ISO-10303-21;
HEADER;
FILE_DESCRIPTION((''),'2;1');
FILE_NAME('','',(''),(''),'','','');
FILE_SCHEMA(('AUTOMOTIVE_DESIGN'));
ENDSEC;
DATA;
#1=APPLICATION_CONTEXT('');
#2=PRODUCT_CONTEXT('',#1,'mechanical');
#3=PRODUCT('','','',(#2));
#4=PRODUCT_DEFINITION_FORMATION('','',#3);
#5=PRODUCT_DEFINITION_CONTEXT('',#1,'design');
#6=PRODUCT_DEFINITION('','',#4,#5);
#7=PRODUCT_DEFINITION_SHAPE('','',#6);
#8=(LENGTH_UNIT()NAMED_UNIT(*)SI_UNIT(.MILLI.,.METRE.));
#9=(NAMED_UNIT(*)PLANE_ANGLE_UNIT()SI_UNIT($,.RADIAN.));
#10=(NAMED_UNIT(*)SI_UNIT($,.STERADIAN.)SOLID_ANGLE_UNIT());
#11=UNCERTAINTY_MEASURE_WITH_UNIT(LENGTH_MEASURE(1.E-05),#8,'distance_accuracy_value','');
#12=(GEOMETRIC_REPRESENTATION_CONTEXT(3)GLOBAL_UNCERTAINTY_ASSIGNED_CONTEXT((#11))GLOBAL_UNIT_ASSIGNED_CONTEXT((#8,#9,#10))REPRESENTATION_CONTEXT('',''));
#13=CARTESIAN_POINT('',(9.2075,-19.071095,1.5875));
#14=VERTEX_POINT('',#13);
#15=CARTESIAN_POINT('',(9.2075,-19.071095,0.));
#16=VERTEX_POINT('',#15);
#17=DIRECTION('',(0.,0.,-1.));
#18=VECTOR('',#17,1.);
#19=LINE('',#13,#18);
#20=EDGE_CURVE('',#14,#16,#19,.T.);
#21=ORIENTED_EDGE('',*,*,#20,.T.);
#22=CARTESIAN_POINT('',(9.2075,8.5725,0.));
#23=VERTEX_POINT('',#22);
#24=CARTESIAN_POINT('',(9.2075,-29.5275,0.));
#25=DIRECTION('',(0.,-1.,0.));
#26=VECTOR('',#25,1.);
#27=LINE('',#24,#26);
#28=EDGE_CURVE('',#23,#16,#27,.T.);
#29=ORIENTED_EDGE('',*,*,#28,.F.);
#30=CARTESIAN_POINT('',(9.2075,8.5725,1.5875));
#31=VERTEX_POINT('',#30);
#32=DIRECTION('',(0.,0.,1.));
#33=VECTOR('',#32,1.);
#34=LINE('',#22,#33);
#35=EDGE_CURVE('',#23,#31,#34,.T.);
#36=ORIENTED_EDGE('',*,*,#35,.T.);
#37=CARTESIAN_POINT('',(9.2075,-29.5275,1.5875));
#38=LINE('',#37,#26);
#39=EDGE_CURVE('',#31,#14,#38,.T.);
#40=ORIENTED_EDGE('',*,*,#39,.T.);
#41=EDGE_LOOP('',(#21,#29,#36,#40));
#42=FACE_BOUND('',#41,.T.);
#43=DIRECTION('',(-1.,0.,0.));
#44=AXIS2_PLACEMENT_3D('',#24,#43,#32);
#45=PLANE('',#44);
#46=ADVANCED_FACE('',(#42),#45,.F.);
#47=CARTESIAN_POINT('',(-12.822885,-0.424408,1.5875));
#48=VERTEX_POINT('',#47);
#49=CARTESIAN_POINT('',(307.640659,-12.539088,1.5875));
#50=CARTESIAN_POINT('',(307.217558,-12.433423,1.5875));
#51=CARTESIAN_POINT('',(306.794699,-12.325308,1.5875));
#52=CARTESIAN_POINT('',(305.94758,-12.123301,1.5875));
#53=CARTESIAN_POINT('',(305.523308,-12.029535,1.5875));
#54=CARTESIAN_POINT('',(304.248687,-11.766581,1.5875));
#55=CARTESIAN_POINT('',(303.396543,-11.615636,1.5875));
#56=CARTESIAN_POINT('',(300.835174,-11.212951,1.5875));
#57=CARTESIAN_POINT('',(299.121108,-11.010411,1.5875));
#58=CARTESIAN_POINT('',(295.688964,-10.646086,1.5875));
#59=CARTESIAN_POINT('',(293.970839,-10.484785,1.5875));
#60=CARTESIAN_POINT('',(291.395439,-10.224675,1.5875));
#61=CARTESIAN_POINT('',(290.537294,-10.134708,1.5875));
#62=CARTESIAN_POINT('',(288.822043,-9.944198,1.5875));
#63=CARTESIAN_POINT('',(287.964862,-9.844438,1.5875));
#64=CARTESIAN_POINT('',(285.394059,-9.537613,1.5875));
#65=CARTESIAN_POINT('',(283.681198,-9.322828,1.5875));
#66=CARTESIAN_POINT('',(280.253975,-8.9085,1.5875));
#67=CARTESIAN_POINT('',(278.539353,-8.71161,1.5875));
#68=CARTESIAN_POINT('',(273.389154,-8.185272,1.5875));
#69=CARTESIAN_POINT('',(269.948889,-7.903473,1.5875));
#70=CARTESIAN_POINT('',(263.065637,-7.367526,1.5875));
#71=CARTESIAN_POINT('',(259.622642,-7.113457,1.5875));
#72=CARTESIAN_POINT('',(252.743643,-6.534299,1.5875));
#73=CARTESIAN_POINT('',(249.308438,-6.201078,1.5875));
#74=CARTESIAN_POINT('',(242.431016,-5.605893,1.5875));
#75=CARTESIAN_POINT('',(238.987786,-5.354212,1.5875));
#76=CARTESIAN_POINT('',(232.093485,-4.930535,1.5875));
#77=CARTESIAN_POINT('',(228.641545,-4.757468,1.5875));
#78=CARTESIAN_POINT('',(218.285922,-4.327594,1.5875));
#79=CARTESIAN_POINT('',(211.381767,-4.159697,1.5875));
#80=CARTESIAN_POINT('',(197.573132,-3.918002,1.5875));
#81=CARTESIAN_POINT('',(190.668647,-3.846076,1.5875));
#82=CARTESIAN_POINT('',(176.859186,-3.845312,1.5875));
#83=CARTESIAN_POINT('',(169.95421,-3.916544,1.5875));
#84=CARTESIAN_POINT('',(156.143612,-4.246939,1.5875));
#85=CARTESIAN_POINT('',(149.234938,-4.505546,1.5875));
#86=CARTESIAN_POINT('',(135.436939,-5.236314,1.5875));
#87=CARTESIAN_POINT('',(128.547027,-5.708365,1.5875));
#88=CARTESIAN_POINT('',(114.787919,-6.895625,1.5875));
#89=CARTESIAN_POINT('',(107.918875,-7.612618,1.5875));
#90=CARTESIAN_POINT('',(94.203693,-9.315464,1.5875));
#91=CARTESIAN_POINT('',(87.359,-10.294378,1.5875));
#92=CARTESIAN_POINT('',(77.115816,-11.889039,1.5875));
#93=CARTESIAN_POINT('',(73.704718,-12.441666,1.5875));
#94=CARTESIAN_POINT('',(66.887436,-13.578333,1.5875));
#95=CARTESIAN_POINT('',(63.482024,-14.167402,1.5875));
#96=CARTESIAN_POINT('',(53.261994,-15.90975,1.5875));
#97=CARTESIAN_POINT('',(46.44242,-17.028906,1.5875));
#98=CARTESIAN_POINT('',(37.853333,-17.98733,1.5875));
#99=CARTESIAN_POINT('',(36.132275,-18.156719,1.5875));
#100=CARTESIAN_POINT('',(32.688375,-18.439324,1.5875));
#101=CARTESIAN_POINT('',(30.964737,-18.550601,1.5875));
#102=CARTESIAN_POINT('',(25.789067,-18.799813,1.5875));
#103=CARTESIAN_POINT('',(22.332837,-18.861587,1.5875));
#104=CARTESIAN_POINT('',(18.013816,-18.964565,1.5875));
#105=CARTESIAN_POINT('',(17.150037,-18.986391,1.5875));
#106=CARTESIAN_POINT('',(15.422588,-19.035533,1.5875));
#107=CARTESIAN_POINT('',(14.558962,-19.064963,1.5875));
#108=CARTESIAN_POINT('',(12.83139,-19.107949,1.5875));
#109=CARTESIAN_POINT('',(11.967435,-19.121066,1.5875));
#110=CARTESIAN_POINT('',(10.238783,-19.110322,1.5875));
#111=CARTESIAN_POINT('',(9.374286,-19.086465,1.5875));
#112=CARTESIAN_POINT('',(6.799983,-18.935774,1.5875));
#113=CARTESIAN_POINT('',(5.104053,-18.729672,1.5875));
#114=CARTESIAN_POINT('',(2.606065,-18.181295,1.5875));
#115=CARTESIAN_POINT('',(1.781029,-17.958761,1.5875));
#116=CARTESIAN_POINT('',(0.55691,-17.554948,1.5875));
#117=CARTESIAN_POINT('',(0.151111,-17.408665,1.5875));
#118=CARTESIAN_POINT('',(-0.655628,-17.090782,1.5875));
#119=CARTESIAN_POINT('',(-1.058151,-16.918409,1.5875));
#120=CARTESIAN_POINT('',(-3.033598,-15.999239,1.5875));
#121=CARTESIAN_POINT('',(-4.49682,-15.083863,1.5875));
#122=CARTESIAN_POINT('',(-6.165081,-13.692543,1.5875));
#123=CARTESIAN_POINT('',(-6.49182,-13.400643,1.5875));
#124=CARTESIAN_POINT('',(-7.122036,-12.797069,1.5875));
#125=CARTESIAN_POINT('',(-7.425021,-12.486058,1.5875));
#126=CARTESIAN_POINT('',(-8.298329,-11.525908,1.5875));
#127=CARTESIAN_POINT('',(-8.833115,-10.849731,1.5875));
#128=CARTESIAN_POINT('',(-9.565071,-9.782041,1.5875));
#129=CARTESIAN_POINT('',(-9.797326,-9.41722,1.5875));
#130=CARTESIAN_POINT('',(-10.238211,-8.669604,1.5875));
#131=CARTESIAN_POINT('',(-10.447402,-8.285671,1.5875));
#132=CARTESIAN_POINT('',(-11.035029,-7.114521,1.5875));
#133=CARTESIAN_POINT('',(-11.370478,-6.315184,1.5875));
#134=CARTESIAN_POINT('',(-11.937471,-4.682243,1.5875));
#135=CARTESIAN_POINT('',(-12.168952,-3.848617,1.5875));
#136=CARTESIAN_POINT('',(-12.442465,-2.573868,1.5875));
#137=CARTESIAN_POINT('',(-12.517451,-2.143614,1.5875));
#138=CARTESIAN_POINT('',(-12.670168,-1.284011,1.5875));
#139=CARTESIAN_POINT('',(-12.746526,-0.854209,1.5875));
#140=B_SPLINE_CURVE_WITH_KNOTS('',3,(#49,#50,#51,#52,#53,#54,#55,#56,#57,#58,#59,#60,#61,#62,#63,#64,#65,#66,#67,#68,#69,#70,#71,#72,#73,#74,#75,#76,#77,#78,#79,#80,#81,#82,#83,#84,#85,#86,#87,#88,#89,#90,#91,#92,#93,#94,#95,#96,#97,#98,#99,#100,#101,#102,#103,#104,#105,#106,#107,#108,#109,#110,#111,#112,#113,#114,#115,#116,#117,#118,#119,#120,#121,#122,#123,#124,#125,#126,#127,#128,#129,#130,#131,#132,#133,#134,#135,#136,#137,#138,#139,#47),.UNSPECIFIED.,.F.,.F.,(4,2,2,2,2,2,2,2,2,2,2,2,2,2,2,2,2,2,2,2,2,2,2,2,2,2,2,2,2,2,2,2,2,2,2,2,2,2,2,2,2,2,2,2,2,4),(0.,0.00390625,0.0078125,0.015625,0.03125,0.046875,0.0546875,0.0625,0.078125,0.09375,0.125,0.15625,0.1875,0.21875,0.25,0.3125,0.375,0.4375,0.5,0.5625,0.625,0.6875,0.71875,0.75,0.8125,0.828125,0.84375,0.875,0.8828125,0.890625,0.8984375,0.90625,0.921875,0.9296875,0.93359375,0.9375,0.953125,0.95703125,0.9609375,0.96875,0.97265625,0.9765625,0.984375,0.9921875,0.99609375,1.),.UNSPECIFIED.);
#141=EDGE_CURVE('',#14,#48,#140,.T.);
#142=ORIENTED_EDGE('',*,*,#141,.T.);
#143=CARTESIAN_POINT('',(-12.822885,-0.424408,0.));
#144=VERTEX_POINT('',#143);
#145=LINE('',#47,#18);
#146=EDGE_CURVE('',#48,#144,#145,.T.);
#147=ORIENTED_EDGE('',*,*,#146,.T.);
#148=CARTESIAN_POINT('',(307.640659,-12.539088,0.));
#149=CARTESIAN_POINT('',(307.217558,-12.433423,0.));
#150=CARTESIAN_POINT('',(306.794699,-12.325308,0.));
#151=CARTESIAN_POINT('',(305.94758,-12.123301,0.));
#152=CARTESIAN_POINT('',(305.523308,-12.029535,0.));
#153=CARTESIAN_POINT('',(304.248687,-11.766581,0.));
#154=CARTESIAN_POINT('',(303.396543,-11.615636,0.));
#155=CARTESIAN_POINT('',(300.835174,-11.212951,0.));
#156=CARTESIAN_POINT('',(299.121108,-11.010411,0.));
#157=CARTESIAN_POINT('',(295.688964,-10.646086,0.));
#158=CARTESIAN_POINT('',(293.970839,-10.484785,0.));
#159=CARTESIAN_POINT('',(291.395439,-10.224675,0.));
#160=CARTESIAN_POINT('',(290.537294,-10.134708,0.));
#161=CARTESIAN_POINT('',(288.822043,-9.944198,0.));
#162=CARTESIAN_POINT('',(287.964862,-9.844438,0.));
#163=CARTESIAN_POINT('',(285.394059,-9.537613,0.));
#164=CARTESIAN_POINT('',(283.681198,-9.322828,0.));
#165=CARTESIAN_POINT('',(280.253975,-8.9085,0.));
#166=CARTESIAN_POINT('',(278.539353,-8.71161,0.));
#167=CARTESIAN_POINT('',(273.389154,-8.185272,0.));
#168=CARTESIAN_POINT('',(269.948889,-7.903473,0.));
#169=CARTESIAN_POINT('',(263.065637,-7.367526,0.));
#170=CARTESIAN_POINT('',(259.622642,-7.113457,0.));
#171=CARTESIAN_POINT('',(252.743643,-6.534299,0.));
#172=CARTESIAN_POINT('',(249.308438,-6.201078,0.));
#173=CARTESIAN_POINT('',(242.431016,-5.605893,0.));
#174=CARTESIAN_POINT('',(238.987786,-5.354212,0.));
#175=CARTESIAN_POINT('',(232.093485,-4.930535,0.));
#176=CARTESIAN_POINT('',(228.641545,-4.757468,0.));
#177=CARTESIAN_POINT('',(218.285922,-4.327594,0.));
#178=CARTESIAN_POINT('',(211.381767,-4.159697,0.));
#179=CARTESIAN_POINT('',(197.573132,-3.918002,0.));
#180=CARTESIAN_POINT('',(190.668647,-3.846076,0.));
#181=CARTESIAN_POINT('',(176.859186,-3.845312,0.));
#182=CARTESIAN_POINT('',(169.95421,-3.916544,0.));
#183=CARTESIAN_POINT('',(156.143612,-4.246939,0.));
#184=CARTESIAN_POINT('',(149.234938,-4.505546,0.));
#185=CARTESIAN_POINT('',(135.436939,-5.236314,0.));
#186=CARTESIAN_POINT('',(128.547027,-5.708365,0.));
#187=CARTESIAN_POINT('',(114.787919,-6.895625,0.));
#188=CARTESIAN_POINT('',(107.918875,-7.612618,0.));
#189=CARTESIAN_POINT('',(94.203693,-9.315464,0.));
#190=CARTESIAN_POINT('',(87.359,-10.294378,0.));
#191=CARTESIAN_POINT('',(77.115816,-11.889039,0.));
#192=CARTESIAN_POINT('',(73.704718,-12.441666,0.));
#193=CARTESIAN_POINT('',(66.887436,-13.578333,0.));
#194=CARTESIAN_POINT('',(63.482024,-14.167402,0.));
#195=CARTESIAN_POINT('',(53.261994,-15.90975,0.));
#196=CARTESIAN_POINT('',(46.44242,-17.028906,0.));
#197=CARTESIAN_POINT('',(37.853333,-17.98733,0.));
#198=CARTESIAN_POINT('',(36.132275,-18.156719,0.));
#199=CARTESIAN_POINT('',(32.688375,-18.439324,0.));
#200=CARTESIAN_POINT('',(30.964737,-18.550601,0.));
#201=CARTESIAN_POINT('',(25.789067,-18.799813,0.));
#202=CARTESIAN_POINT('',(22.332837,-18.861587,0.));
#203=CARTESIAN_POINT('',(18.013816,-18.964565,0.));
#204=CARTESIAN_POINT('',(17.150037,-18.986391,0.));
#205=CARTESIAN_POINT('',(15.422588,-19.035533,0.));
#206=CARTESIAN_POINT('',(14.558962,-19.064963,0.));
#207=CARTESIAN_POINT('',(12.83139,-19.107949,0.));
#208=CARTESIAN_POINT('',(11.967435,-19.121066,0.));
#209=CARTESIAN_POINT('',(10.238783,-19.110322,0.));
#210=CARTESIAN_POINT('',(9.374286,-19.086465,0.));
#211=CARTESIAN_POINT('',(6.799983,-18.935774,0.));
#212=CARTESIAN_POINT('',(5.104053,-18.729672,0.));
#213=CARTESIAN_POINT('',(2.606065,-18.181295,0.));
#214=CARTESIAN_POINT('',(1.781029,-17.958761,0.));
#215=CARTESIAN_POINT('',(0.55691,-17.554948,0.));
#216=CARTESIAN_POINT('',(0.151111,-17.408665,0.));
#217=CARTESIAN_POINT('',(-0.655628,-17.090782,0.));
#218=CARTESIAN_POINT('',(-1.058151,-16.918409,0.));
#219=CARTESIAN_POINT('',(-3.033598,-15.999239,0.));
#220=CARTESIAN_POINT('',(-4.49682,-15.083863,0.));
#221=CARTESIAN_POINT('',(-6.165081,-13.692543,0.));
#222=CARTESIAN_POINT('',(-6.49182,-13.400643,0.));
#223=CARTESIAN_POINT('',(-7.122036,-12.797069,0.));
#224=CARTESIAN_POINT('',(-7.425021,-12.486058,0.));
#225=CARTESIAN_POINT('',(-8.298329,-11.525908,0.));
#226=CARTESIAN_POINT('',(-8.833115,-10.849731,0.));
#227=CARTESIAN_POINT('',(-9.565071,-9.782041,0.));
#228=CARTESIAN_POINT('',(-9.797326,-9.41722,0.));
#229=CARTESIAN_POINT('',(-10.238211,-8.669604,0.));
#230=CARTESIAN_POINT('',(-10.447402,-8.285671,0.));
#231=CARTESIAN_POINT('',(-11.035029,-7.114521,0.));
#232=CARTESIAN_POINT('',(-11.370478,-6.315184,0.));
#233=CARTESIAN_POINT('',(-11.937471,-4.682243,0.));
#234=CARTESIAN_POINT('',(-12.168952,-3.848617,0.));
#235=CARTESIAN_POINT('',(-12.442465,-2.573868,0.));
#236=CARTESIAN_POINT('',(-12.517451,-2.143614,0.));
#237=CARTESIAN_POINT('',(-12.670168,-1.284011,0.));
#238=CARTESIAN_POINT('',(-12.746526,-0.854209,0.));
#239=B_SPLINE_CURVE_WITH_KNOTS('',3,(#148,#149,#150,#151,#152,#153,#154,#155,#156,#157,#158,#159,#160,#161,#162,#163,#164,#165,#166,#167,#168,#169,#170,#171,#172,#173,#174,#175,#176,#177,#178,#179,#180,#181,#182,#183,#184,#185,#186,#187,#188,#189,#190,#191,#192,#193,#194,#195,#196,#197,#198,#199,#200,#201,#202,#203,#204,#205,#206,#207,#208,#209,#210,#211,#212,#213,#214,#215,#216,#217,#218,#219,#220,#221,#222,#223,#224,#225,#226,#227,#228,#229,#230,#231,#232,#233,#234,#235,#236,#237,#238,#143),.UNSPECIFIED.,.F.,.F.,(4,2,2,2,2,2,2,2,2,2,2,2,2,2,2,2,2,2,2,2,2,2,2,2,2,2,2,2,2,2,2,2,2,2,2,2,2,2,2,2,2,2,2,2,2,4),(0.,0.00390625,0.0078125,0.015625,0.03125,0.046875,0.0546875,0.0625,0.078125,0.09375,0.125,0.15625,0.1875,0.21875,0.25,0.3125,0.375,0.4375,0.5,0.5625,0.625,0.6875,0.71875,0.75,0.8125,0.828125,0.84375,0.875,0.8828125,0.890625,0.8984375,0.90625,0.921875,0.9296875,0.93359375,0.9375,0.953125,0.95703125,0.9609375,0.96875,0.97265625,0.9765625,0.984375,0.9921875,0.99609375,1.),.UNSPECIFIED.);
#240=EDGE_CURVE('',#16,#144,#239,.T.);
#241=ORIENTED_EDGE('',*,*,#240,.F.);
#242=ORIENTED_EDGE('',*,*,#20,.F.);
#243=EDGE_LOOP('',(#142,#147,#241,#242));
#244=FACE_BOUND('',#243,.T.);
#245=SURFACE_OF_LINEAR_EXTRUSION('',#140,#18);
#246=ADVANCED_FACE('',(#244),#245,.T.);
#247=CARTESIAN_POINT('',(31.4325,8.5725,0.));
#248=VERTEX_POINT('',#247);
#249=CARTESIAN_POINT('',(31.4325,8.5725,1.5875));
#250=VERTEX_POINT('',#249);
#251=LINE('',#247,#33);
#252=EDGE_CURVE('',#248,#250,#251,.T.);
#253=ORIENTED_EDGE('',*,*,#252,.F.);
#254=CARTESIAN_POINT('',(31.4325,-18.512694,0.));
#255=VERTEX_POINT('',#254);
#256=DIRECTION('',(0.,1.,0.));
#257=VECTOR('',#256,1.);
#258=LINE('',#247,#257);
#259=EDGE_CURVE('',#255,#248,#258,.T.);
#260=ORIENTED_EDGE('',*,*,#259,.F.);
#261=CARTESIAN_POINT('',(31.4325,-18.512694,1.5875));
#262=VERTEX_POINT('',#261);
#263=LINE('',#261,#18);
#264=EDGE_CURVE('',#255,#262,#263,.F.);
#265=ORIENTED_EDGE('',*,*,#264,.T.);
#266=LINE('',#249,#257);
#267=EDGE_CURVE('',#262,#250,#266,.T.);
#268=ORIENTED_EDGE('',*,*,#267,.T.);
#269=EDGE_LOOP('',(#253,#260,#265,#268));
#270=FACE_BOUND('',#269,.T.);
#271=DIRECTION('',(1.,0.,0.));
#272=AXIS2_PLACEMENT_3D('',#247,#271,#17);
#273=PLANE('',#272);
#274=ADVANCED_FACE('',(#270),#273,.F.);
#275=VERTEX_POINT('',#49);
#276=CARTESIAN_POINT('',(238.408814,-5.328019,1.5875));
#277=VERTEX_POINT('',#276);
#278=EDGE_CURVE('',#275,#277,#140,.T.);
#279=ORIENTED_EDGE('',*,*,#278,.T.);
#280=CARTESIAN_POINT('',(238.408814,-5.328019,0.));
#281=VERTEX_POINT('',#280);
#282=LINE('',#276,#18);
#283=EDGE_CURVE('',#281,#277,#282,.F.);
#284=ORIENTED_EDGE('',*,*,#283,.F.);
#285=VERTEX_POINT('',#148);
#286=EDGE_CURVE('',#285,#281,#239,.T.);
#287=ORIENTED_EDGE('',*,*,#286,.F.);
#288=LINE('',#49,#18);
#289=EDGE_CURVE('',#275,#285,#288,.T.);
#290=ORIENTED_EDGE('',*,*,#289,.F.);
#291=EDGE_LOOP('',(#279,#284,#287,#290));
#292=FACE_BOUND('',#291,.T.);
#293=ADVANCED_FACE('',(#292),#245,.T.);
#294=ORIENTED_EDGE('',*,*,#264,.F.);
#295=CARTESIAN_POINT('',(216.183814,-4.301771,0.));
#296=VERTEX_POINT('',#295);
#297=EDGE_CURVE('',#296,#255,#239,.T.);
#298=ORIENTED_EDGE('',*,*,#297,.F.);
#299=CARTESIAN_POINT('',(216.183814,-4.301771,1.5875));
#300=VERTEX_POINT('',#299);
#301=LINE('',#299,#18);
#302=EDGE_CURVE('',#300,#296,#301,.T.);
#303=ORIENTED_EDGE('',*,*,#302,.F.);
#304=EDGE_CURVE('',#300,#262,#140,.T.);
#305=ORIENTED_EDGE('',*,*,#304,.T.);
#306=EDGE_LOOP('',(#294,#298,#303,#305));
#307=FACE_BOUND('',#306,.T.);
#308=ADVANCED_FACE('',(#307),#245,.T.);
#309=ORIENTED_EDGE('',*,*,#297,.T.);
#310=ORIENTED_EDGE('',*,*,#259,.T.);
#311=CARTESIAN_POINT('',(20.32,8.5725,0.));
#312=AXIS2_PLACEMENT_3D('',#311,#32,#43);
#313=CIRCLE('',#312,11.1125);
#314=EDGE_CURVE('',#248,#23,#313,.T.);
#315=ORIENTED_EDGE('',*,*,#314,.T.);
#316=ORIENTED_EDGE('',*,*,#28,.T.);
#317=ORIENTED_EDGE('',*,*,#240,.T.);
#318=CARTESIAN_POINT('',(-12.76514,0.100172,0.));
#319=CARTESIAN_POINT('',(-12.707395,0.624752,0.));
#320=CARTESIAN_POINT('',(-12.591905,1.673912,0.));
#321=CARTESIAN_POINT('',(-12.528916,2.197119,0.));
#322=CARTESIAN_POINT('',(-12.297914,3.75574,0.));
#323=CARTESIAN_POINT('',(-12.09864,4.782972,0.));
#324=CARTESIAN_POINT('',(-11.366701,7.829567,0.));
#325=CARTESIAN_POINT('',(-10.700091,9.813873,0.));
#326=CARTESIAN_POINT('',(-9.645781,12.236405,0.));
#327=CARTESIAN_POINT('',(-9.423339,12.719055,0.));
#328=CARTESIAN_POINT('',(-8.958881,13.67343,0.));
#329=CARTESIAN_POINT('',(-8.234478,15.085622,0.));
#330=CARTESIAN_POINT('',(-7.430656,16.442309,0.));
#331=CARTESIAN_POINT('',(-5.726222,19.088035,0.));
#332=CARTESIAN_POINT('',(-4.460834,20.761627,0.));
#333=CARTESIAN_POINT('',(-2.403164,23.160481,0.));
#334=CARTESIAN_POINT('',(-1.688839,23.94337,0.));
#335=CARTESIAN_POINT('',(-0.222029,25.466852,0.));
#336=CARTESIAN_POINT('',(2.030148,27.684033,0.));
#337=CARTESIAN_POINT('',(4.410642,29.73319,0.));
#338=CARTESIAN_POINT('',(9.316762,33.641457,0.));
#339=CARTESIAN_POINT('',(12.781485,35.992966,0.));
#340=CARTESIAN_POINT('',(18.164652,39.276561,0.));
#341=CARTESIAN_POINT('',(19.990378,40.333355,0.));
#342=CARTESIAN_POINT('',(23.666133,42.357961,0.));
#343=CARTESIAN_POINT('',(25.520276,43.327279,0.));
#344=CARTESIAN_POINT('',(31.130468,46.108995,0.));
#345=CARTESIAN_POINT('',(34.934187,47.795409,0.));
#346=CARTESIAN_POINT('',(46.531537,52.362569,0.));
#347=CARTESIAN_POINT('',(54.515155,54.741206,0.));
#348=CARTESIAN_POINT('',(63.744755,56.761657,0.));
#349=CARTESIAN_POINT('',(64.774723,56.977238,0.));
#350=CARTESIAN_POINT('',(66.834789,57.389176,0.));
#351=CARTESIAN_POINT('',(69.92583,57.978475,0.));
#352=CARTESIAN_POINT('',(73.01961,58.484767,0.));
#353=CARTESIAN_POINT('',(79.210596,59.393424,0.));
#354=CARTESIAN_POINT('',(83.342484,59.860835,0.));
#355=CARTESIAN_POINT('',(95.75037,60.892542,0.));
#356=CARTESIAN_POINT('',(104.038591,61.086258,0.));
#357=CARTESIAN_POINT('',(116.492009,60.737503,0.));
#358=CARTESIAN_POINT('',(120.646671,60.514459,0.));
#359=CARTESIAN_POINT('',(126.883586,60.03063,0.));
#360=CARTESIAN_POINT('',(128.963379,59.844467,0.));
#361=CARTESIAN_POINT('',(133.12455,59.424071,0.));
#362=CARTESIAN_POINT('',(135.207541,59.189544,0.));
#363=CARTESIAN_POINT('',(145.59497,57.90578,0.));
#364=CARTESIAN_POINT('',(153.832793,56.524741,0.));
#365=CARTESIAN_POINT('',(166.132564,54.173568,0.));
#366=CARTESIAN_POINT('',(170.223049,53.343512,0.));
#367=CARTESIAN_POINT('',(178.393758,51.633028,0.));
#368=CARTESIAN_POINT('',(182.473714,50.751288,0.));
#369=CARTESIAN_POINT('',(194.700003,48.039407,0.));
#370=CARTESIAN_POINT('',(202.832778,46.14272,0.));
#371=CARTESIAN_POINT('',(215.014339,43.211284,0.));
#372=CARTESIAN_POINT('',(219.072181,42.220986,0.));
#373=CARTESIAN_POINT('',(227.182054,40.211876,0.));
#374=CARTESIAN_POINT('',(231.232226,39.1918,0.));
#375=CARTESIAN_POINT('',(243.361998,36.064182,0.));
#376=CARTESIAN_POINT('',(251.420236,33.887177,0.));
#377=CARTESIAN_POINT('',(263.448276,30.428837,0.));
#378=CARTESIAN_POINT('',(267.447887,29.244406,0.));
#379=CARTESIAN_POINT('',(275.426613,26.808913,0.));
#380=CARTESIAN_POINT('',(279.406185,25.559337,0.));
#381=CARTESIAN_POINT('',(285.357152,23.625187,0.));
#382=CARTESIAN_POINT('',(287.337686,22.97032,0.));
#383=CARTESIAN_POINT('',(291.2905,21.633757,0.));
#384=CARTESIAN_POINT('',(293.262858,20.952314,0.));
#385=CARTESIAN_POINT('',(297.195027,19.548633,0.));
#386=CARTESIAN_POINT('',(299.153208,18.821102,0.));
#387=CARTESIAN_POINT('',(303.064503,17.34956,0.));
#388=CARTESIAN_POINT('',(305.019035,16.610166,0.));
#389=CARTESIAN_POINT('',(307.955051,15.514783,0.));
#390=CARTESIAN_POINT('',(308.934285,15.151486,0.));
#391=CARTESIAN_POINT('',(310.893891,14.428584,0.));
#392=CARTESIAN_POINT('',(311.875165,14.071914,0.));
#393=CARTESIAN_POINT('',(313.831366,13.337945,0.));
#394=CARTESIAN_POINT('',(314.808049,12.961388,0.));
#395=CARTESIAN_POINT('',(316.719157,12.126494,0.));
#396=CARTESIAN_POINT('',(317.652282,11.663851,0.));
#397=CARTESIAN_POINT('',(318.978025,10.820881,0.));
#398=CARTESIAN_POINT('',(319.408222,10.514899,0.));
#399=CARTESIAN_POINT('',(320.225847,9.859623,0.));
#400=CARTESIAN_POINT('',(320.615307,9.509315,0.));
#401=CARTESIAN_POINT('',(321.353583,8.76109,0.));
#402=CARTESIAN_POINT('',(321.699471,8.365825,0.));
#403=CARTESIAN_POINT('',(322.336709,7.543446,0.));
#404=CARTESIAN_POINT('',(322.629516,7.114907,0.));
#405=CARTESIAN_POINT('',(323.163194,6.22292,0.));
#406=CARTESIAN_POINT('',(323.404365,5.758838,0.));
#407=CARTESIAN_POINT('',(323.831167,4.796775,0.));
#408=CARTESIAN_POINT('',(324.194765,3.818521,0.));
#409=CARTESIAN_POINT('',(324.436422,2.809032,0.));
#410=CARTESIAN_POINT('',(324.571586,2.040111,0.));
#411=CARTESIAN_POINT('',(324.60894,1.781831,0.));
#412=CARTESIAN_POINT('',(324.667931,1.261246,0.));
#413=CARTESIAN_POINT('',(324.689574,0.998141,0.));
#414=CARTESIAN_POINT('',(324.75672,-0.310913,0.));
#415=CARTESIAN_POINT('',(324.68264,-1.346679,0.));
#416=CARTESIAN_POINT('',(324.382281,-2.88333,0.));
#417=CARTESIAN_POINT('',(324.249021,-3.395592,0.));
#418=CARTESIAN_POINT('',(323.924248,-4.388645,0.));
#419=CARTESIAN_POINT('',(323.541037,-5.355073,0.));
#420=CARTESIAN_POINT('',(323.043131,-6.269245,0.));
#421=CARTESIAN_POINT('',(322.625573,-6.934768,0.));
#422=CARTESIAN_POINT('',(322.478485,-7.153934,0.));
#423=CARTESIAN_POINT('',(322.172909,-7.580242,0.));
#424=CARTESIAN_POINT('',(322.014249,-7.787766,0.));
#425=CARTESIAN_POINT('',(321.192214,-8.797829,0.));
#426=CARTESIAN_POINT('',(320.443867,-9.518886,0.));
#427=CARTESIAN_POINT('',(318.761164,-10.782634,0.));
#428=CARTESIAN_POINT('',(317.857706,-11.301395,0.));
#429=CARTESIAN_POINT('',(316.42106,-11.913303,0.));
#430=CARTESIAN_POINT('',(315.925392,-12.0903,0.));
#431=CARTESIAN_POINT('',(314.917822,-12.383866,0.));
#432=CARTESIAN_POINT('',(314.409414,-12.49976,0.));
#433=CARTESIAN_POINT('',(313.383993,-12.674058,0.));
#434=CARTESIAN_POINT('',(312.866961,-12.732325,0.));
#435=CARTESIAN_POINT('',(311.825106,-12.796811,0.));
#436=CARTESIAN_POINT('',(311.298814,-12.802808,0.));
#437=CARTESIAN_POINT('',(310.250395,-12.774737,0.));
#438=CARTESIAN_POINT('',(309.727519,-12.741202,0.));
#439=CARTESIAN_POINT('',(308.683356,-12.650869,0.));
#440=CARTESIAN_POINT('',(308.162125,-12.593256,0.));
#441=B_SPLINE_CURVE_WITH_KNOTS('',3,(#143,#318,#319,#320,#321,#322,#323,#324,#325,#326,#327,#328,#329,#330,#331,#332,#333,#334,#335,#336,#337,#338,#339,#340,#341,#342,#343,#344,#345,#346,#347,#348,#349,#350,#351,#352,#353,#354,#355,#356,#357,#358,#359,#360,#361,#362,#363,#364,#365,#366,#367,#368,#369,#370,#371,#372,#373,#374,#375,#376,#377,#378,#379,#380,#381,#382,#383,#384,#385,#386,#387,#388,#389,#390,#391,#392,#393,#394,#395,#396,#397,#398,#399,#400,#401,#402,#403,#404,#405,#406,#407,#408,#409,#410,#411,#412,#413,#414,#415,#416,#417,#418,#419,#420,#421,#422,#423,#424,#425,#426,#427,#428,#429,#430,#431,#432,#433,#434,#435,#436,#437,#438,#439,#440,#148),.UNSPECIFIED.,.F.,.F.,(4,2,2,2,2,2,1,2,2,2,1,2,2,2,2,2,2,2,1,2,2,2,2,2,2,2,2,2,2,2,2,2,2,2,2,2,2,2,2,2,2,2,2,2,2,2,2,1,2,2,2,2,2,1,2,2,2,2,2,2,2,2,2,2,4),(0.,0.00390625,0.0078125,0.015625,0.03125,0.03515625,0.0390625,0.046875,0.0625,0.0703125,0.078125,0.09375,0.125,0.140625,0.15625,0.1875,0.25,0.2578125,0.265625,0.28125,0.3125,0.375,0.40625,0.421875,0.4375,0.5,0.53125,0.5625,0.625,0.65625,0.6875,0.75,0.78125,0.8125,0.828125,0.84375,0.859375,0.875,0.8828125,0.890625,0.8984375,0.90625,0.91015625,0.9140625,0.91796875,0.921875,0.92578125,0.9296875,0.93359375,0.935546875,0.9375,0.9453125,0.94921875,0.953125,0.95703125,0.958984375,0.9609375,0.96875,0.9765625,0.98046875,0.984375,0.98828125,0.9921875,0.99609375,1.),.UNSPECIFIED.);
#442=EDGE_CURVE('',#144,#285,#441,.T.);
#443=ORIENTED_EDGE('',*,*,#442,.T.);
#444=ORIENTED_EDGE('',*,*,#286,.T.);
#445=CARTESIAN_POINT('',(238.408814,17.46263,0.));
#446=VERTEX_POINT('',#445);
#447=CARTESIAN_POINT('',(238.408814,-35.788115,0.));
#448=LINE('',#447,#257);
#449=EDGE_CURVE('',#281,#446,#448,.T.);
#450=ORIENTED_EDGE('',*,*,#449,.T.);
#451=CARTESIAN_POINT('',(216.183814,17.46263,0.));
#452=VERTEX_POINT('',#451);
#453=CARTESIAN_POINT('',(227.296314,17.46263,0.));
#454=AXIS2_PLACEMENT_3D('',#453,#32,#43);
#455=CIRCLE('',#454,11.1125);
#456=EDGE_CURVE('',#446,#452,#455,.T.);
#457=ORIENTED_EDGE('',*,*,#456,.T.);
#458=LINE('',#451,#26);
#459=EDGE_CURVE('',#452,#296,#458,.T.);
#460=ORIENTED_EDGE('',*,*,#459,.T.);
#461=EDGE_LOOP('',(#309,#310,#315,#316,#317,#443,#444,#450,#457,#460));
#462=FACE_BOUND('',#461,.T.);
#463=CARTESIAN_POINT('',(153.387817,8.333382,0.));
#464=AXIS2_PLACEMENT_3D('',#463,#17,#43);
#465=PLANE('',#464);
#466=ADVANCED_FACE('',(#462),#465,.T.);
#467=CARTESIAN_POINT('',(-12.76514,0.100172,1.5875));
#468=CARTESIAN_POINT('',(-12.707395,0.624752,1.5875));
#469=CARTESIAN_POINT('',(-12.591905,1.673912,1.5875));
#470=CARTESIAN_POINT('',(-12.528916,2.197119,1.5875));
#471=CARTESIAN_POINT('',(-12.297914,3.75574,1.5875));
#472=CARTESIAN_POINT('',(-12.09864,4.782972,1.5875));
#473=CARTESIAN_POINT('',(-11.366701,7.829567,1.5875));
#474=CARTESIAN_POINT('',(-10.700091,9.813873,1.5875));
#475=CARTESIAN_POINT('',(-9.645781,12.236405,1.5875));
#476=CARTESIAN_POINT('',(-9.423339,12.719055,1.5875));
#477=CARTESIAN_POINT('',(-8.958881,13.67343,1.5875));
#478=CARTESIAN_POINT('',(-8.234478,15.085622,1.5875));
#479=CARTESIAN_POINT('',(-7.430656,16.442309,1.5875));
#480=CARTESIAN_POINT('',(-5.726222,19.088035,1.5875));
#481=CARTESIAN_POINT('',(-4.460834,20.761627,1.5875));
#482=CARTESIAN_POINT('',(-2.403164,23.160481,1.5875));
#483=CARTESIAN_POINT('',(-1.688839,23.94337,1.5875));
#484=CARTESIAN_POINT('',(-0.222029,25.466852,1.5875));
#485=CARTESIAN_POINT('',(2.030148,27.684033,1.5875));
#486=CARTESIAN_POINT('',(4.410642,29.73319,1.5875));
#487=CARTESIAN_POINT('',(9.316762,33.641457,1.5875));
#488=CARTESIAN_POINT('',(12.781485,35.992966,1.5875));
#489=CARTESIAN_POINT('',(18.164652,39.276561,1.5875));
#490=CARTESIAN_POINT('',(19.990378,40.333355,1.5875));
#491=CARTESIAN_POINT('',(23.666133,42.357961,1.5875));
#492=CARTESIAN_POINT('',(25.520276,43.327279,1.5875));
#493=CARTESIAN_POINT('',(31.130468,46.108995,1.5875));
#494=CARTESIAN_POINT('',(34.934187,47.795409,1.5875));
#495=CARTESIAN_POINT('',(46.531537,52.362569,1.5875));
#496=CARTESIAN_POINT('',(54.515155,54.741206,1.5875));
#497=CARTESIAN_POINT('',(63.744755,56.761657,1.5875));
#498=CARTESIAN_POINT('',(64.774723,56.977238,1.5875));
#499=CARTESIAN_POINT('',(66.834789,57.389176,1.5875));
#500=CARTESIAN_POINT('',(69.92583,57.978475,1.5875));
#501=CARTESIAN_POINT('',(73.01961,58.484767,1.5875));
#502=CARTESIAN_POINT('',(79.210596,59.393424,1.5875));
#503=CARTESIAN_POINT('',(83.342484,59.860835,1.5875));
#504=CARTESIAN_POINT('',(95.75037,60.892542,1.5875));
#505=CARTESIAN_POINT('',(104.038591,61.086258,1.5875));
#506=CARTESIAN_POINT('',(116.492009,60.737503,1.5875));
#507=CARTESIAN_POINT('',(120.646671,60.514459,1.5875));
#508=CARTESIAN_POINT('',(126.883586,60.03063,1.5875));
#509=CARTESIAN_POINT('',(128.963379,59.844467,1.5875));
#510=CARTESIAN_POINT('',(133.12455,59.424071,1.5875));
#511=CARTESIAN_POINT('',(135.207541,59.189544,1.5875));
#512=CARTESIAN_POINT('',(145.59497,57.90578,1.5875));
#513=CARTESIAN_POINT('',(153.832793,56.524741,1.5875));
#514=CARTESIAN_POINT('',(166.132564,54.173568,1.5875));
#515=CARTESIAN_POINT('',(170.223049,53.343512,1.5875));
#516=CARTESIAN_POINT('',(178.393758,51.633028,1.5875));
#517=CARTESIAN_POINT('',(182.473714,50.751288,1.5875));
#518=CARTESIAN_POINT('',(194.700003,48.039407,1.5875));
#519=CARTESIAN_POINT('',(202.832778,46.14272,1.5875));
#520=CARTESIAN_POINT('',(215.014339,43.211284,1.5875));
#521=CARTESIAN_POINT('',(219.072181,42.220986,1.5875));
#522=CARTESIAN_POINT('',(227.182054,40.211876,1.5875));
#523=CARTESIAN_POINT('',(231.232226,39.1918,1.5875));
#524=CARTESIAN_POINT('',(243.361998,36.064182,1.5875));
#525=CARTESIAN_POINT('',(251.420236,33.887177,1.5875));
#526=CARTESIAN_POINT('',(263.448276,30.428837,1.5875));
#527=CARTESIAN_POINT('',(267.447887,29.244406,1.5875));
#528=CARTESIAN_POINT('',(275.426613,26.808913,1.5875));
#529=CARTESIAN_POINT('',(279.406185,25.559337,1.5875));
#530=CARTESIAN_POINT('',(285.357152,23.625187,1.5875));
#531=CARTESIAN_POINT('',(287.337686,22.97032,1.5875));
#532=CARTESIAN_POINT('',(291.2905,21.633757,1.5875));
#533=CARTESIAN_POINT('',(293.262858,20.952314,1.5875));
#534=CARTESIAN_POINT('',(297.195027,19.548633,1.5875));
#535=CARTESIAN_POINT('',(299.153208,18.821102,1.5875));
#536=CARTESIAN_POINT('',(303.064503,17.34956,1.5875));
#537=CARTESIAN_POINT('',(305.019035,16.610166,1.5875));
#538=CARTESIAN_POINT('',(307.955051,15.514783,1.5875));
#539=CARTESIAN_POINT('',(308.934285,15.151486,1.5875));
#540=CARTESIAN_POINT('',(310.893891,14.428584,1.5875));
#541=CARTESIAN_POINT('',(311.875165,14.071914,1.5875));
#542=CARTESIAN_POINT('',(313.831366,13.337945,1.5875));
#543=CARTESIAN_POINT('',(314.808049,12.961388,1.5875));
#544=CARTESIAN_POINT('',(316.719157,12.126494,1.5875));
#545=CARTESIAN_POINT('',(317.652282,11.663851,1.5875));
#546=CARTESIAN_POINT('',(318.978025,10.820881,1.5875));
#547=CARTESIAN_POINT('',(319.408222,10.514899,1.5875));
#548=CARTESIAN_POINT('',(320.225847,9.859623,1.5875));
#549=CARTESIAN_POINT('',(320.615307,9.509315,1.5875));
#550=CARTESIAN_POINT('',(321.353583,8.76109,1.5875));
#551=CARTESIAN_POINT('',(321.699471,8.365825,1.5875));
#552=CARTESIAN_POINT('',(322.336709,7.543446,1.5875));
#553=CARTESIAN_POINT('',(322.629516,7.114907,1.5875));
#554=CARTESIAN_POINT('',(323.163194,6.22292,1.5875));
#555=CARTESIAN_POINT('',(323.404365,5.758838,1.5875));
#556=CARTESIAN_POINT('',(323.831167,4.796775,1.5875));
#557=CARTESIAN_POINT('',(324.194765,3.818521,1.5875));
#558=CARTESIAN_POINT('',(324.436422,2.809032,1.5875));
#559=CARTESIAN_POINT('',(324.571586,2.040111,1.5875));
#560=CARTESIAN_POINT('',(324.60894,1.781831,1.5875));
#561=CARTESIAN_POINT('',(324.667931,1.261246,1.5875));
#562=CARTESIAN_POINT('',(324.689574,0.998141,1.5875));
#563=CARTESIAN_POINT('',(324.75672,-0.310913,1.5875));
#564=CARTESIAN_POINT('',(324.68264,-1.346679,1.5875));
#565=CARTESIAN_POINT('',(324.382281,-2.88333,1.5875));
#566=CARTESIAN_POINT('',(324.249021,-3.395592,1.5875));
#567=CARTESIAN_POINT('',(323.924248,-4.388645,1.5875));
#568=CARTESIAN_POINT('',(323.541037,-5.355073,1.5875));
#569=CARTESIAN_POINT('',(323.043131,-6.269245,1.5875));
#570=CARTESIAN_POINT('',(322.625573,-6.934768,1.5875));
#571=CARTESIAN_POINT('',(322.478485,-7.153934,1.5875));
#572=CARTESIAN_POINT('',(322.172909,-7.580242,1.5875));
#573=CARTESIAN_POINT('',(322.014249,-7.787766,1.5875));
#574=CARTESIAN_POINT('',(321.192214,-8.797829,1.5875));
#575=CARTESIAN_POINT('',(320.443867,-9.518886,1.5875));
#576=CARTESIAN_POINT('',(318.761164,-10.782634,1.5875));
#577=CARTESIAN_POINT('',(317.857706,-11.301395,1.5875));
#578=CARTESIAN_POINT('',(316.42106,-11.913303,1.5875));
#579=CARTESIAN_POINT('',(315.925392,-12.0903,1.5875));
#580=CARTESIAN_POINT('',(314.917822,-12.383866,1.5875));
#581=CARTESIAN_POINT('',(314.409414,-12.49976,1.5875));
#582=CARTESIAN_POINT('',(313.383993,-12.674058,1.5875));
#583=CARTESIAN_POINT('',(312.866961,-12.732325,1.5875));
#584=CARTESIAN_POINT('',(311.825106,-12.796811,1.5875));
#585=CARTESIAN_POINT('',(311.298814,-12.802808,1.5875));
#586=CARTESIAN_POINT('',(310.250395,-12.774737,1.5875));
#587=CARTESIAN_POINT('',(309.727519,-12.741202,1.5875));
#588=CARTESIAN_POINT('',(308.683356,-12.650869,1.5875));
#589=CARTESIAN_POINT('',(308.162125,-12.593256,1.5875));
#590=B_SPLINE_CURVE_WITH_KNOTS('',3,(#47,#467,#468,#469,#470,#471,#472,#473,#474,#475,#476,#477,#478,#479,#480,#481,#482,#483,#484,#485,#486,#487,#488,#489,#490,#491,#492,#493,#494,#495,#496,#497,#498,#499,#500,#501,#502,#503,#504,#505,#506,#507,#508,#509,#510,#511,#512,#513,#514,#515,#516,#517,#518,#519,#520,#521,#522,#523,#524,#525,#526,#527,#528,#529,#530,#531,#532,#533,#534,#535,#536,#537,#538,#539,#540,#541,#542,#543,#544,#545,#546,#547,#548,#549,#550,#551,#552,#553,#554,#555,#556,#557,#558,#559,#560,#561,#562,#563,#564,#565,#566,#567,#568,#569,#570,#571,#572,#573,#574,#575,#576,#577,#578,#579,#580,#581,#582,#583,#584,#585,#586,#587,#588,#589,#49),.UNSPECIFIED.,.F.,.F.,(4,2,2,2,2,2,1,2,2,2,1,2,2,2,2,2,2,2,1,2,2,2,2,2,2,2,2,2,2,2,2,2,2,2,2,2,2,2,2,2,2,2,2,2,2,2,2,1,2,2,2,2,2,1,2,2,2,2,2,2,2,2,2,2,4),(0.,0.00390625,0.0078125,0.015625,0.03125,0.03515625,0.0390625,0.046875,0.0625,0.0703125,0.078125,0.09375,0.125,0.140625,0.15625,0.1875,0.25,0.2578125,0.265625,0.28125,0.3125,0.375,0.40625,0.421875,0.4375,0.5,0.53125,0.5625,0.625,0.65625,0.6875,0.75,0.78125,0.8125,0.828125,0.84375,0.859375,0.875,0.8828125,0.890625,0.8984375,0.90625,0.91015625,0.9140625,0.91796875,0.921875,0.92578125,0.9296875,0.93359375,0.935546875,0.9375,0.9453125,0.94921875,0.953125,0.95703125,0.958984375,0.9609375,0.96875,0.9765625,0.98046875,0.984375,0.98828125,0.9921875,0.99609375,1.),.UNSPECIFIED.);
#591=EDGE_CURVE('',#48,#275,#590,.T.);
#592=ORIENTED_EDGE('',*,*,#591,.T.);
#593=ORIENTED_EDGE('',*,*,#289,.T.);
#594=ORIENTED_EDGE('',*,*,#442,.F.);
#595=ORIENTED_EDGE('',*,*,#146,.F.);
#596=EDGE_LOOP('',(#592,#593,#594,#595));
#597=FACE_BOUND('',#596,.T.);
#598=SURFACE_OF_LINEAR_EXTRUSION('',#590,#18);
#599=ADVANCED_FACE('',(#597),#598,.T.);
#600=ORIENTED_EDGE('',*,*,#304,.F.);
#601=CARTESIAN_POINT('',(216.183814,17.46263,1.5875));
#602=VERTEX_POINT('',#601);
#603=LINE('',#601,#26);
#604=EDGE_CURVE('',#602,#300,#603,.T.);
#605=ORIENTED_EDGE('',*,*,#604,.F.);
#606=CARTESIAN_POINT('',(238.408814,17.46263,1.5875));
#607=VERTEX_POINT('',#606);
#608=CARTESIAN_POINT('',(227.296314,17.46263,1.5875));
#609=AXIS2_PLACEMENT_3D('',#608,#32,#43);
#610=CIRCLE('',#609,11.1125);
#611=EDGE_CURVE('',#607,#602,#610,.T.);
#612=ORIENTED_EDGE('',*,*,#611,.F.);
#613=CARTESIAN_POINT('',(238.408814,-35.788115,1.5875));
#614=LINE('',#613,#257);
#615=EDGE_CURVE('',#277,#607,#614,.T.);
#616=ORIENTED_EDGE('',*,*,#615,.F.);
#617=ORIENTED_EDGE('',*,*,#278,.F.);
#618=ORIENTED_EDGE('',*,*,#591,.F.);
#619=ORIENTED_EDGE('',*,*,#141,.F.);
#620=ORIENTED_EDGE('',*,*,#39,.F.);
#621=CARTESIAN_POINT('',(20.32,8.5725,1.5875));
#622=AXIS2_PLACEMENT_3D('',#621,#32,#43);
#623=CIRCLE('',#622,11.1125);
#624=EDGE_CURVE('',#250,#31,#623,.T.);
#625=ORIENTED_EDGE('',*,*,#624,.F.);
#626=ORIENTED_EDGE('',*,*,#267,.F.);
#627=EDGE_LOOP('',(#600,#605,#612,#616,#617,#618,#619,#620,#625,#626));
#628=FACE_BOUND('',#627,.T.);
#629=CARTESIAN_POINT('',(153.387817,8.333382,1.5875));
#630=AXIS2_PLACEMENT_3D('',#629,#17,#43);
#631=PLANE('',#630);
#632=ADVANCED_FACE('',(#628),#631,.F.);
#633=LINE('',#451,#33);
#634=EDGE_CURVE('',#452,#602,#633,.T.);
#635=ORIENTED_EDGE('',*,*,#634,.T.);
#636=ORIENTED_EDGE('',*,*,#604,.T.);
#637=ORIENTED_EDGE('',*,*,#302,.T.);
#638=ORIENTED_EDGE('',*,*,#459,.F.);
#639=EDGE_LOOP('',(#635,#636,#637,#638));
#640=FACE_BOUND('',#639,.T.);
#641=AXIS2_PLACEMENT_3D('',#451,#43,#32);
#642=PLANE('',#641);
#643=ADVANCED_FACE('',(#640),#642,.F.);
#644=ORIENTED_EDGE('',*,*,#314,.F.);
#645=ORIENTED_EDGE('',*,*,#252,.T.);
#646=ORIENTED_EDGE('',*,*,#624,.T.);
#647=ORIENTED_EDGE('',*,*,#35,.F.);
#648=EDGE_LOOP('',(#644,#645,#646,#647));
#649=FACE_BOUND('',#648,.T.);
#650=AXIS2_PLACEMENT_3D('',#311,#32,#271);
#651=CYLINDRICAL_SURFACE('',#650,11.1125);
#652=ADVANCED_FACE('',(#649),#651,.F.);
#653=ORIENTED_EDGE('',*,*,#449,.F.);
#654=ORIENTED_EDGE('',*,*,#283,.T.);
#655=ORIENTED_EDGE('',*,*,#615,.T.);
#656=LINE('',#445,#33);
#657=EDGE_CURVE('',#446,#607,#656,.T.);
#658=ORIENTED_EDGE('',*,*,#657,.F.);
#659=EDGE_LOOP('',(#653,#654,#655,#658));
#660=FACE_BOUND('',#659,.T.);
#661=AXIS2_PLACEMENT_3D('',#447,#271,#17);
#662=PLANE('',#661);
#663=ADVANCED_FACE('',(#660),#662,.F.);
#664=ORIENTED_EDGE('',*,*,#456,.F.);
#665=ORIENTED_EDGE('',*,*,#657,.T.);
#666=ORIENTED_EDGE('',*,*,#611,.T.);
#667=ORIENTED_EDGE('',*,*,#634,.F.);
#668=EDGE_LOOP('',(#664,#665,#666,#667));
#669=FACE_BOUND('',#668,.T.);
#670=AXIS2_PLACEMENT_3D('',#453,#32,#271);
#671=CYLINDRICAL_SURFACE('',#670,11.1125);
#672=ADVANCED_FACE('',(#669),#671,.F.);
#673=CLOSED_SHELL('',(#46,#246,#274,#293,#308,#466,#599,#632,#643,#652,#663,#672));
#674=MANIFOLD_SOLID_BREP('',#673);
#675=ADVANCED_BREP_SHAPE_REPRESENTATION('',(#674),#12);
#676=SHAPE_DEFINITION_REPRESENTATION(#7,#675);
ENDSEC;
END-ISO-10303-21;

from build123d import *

# Parameters (mm, degrees)
BOSS_EXTRUDE1_DEPTH = 1.5875
SKETCH2_R           = 5
CUT_EXTRUDE1_DEPTH  = 4
BOSS_EXTRUDE2_START = -1.5875
SKETCH3_R           = 5
BOSS_EXTRUDE2_DEPTH = 1.5875
CUT_EXTRUDE2_DEPTH  = 1.5875


with BuildPart() as part:
    # Sketch1 → Boss-Extrude1 (new body)
    with BuildSketch(Plane.XY):
        with BuildLine():
            add(Edge.make_bspline(
                [(0.000560351, 0.000130087), (0.810633127, 7.359196055), (8.649092025, 17.856605174), (26.286719818, 29.975176328), (52.111128271, 42.069215275), (89.597618475, 49.290763054), (131.400792109, 47.884831915), (173.256699242, 40.041104278), (217.961060472, 29.612974894), (256.952064401, 19.528920948), (290.35983767, 8.71099439), (301.273197721, 4.382828139), (314.816918223, -0.516206742), (309.846313895, 0.000130087)],
                knots=[0, 0, 0, 0, 0.060863618, 0.113688265, 0.188608742, 0.312908923, 0.448482434, 0.557612135, 0.691544113, 0.852438279, 0.92975597, 0.976058229, 1, 1, 1, 1], degree=3))
            add(Edge.make_bspline(
                [(309.846313895, 0.000130087), (303.956832565, 1.47095521), (293.989507544, 2.093987313), (276.26402299, 4.514356704), (260.846344817, 5.427413394), (235.858814759, 7.870306192), (205.101424636, 8.838080282), (157.718638092, 9.030650149), (110.497331172, 6.181495223), (66.506197185, -0.586669107), (36.454672816, -6.098499901), (15.316603331, -6.189065841), (1.230714189, -6.924076091), (0.000560351, 0.000130087)],
                knots=[0, 0, 0, 0, 0.057787081, 0.095274891, 0.171021118, 0.205339302, 0.335319146, 0.464904334, 0.658702312, 0.785511947, 0.893517288, 0.94309214, 1, 1, 1, 1], degree=3))
        make_face()
    extrude(amount=BOSS_EXTRUDE1_DEPTH)

    # Sketch2 → Cut-Extrude1 (cut)
    with BuildSketch(Plane.XY.offset(1.5875)):
        with Locations((227.296313895, 19.050130087)):
            Circle(SKETCH2_R)
        with Locations((20.32, 10.16)):
            Circle(SKETCH2_R)
    extrude(amount=-CUT_EXTRUDE1_DEPTH, mode=Mode.SUBTRACT)

    # Sketch3 → Boss-Extrude2 (add)
    # profile 1 of 2: a face of its own
    with BuildSketch(Plane(origin=(0, 0, 0), x_dir=(-1, 0, 0), z_dir=(0, 0, -1)).offset(BOSS_EXTRUDE2_START)):
        with BuildLine():
            add(Edge.make_bspline(
                [(-307.640659198, -12.539087546), (-307.217558356, -12.433423344), (-306.794698745, -12.325307987), (-305.94757969, -12.12330096), (-305.523307874, -12.029535003), (-304.248687144, -11.766580558), (-303.396542737, -11.615636043), (-300.835174159, -11.21295058), (-299.121107841, -11.010410608), (-295.688964286, -10.646085532), (-293.970839392, -10.484784679), (-291.395439154, -10.22467467), (-290.537293617, -10.134707532), (-288.822043271, -9.944198445), (-287.964861558, -9.844437915), (-285.39405881, -9.537612889), (-283.681197538, -9.322828465), (-280.253975137, -8.908499626), (-278.539352749, -8.711609867), (-273.38915432, -8.185272474), (-269.948888995, -7.903472556), (-263.065636854, -7.367525768), (-259.622642312, -7.113457385), (-252.743642855, -6.534299134), (-249.308438171, -6.201078142), (-242.431016007, -5.605893048), (-238.987786484, -5.354212306), (-232.093485223, -4.930535427), (-228.641544528, -4.75746758), (-218.28592219, -4.32759383), (-211.381766601, -4.15969745), (-197.573132458, -3.918001938), (-190.668647472, -3.846076469), (-176.859186388, -3.845312431), (-169.95421005, -3.916543553), (-156.143612339, -4.246938801), (-149.234937909, -4.505545645), (-135.436938869, -5.236314206), (-128.547026917, -5.708365191), (-114.787919071, -6.895625055), (-107.918875215, -7.612618486), (-94.20369313, -9.315463639), (-87.358999715, -10.294378281), (-77.115816219, -11.889039149), (-73.704718185, -12.441665778), (-66.887436207, -13.578332899), (-63.482024188, -14.167402421), (-53.261994425, -15.909749635), (-46.44242034, -17.028905731), (-37.85333306, -17.987330435), (-36.13227452, -18.1567188), (-32.688374655, -18.439324462), (-30.964736841, -18.550600806), (-25.789066845, -18.799813385), (-22.332836764, -18.861587488), (-18.013816177, -18.964564881), (-17.150036808, -18.986391339), (-15.422588421, -19.035533108), (-14.558961918, -19.064963111), (-12.831389771, -19.107949046), (-11.967435293, -19.121065622), (-10.238782943, -19.110322287), (-9.374285952, -19.086464893), (-6.799982642, -18.935774333), (-5.1040529, -18.729672307), (-2.60606507, -18.181294881), (-1.781028788, -17.958760916), (-0.556909532, -17.554948104), (-0.151110885, -17.40866523), (0.655628102, -17.090782411), (1.058151158, -16.918409424), (3.033598156, -15.999239459), (4.496819541, -15.083862947), (6.165080649, -13.692542546), (6.491819622, -13.400643282), (7.122036025, -12.797069108), (7.425020518, -12.486058415), (8.298329375, -11.525908236), (8.833114996, -10.8497312), (9.565071132, -9.782041168), (9.797325866, -9.417219923), (10.238211241, -8.669604442), (10.447401936, -8.285671349), (11.035029394, -7.114520562), (11.370477668, -6.315183997), (11.937470931, -4.682242599), (12.168952201, -3.848616751), (12.442464761, -2.573867952), (12.517450612, -2.143613721), (12.670167609, -1.284010684), (12.746526108, -0.854209165), (12.822884607, -0.424407646)],
                knots=[0, 0, 0, 0, 0.00390625, 0.00390625, 0.0078125, 0.0078125, 0.015625, 0.015625, 0.03125, 0.03125, 0.046875, 0.046875, 0.0546875, 0.0546875, 0.0625, 0.0625, 0.078125, 0.078125, 0.09375, 0.09375, 0.125, 0.125, 0.15625, 0.15625, 0.1875, 0.1875, 0.21875, 0.21875, 0.25, 0.25, 0.3125, 0.3125, 0.375, 0.375, 0.4375, 0.4375, 0.5, 0.5, 0.5625, 0.5625, 0.625, 0.625, 0.6875, 0.6875, 0.71875, 0.71875, 0.75, 0.75, 0.8125, 0.8125, 0.828125, 0.828125, 0.84375, 0.84375, 0.875, 0.875, 0.8828125, 0.8828125, 0.890625, 0.890625, 0.8984375, 0.8984375, 0.90625, 0.90625, 0.921875, 0.921875, 0.9296875, 0.9296875, 0.93359375, 0.93359375, 0.9375, 0.9375, 0.953125, 0.953125, 0.95703125, 0.95703125, 0.9609375, 0.9609375, 0.96875, 0.96875, 0.97265625, 0.97265625, 0.9765625, 0.9765625, 0.984375, 0.984375, 0.9921875, 0.9921875, 0.99609375, 0.99609375, 1, 1, 1, 1], degree=3))
            add(Edge.make_bspline(
                [(12.822884607, -0.424407646), (12.765139792, 0.100172261), (12.707394977, 0.624752169), (12.591905347, 1.673911984), (12.52891567, 2.197119212), (12.297914412, 3.755740267), (12.098640002, 4.782972021), (11.366701381, 7.829566749), (10.700090591, 9.813873371), (9.645780575, 12.236404594), (9.423338741, 12.719055064), (8.958881373, 13.673430352), (8.23447829, 15.08562207), (7.430656328, 16.442308561), (5.726221645, 19.088035245), (4.460833832, 20.761627444), (2.403164216, 23.160481023), (1.688839251, 23.943369949), (0.222028874, 25.466851836), (-2.030148044, 27.684033496), (-4.41064195, 29.733189538), (-9.316761854, 33.641457343), (-12.781484695, 35.992965612), (-18.164651713, 39.27656059), (-19.990377965, 40.333355187), (-23.666133339, 42.357961339), (-25.520275615, 43.327279207), (-31.130467721, 46.108995357), (-34.93418714, 47.795409072), (-46.531537172, 52.362569414), (-54.515154512, 54.741205672), (-63.744755219, 56.761657049), (-64.774723341, 56.977238408), (-66.834788658, 57.389176151), (-69.925830231, 57.978474657), (-73.019609651, 58.484766764), (-79.210596391, 59.393423564), (-83.34248448, 59.860835126), (-95.750370075, 60.892542115), (-104.038590609, 61.086258338), (-116.492008775, 60.737503457), (-120.646670589, 60.514458534), (-126.883586466, 60.030630314), (-128.963379302, 59.844466803), (-133.124550465, 59.424070644), (-135.207540526, 59.189544115), (-145.594970482, 57.905779676), (-153.832792977, 56.524741453), (-166.132564079, 54.17356844), (-170.223049115, 53.343512008), (-178.393757628, 51.633027655), (-182.473713838, 50.751287787), (-194.700002507, 48.039407471), (-202.832778155, 46.142719954), (-215.014339388, 43.211283588), (-219.072180538, 42.2209863), (-227.182053622, 40.211875691), (-231.232225779, 39.191799725), (-243.36199815, 36.064182322), (-251.420235834, 33.887176959), (-263.448276276, 30.428836901), (-267.447887219, 29.244406312), (-275.426612854, 26.808913408), (-279.40618455, 25.559336773), (-285.35715209, 23.625187338), (-287.337685563, 22.970320262), (-291.290499883, 21.633757462), (-293.262858235, 20.952313697), (-297.195026702, 19.548632822), (-299.153208366, 18.821101737), (-303.064502528, 17.349560104), (-305.0190352, 16.610166429), (-307.955050529, 15.51478285), (-308.934285457, 15.151485754), (-310.893891195, 14.428584226), (-311.875164589, 14.071914027), (-313.831366034, 13.337945403), (-314.808049131, 12.961388245), (-316.719156906, 12.12649388), (-317.652282104, 11.663851008), (-318.978024645, 10.820880812), (-319.408221872, 10.51489925), (-320.225847261, 9.859622762), (-320.615306755, 9.509314527), (-321.353583055, 8.761089941), (-321.699471113, 8.365825169), (-322.336708966, 7.543445692), (-322.629515882, 7.114906521), (-323.16319448, 6.222920138), (-323.404365456, 5.758838065), (-323.831166845, 4.79677466), (-324.194764938, 3.818521185), (-324.436422233, 2.809031523), (-324.571585545, 2.040110573), (-324.608939896, 1.781831147), (-324.667931422, 1.261246203), (-324.689573785, 0.998141034), (-324.756720117, -0.310913388), (-324.682639527, -1.346678633), (-324.382280636, -2.883329873), (-324.249021416, -3.39559158), (-323.924248204, -4.388644661), (-323.541036888, -5.35507277), (-323.0431311, -6.269244957), (-322.625572759, -6.934768493), (-322.478484529, -7.153933608), (-322.172908527, -7.580241987), (-322.014249177, -7.787766025), (-321.192214147, -8.79782852), (-320.443866507, -9.518885707), (-318.761163886, -10.782634014), (-317.8577056, -11.301394678), (-316.421060308, -11.913302637), (-315.925392414, -12.090300006), (-314.917821884, -12.383866446), (-314.409413715, -12.499760473), (-313.383993339, -12.674058303), (-312.866960582, -12.732324794), (-311.825105731, -12.796811206), (-311.298814045, -12.802807669), (-310.250395164, -12.774737499), (-309.727518722, -12.741201694), (-308.683355881, -12.650868989), (-308.162125238, -12.593256437), (-307.640659198, -12.539087546)],
                knots=[0, 0, 0, 0, 0.00390625, 0.00390625, 0.0078125, 0.0078125, 0.015625, 0.015625, 0.03125, 0.03125, 0.03515625, 0.03515625, 0.0390625, 0.046875, 0.046875, 0.0625, 0.0625, 0.0703125, 0.0703125, 0.078125, 0.09375, 0.09375, 0.125, 0.125, 0.140625, 0.140625, 0.15625, 0.15625, 0.1875, 0.1875, 0.25, 0.25, 0.2578125, 0.2578125, 0.265625, 0.28125, 0.28125, 0.3125, 0.3125, 0.375, 0.375, 0.40625, 0.40625, 0.421875, 0.421875, 0.4375, 0.4375, 0.5, 0.5, 0.53125, 0.53125, 0.5625, 0.5625, 0.625, 0.625, 0.65625, 0.65625, 0.6875, 0.6875, 0.75, 0.75, 0.78125, 0.78125, 0.8125, 0.8125, 0.828125, 0.828125, 0.84375, 0.84375, 0.859375, 0.859375, 0.875, 0.875, 0.8828125, 0.8828125, 0.890625, 0.890625, 0.8984375, 0.8984375, 0.90625, 0.90625, 0.91015625, 0.91015625, 0.9140625, 0.9140625, 0.91796875, 0.91796875, 0.921875, 0.921875, 0.92578125, 0.92578125, 0.9296875, 0.93359375, 0.93359375, 0.935546875, 0.935546875, 0.9375, 0.9375, 0.9453125, 0.9453125, 0.94921875, 0.94921875, 0.953125, 0.95703125, 0.95703125, 0.958984375, 0.958984375, 0.9609375, 0.9609375, 0.96875, 0.96875, 0.9765625, 0.9765625, 0.98046875, 0.98046875, 0.984375, 0.984375, 0.98828125, 0.98828125, 0.9921875, 0.9921875, 0.99609375, 0.99609375, 1, 1, 1, 1], degree=3))
        make_face()
        with BuildLine():
            add(Edge.make_bspline(
                [(-309.846313895, 0.000130087), (-303.956832565, 1.47095521), (-293.989507544, 2.093987313), (-276.26402299, 4.514356704), (-260.846344817, 5.427413394), (-235.858814759, 7.870306192), (-205.101424636, 8.838080282), (-157.718638092, 9.030650149), (-110.497331172, 6.181495223), (-66.506197185, -0.586669107), (-36.454672816, -6.098499901), (-15.316603331, -6.189065841), (-1.230714189, -6.924076091), (-0.000560351, 0.000130087)],
                knots=[0, 0, 0, 0, 0.057787081, 0.095274891, 0.171021118, 0.205339302, 0.335319146, 0.464904334, 0.658702312, 0.785511947, 0.893517288, 0.94309214, 1, 1, 1, 1], degree=3))
            add(Edge.make_bspline(
                [(-0.000560351, 0.000130087), (-0.810633127, 7.359196055), (-8.649092025, 17.856605174), (-26.286719818, 29.975176328), (-52.111128271, 42.069215275), (-89.597618475, 49.290763054), (-131.400792109, 47.884831915), (-173.256699242, 40.041104278), (-217.961060472, 29.612974894), (-256.952064401, 19.528920948), (-290.35983767, 8.71099439), (-301.273197721, 4.382828139), (-314.816918223, -0.516206742), (-309.846313895, 0.000130087)],
                knots=[0, 0, 0, 0, 0.060863618, 0.113688265, 0.188608742, 0.312908923, 0.448482434, 0.557612135, 0.691544113, 0.852438279, 0.92975597, 0.976058229, 1, 1, 1, 1], degree=3))
        make_face(mode=Mode.SUBTRACT)
    # profile 2 of 2: a face of its own
    with BuildSketch(Plane(origin=(0, 0, 0), x_dir=(-1, 0, 0), z_dir=(0, 0, -1)).offset(BOSS_EXTRUDE2_START)):
        with BuildLine():
            add(Edge.make_bspline(
                [(-0.000560351, 0.000130087), (-0.810633127, 7.359196055), (-8.649092025, 17.856605174), (-26.286719818, 29.975176328), (-52.111128271, 42.069215275), (-89.597618475, 49.290763054), (-131.400792109, 47.884831915), (-173.256699242, 40.041104278), (-217.961060472, 29.612974894), (-256.952064401, 19.528920948), (-290.35983767, 8.71099439), (-301.273197721, 4.382828139), (-314.816918223, -0.516206742), (-309.846313895, 0.000130087)],
                knots=[0, 0, 0, 0, 0.060863618, 0.113688265, 0.188608742, 0.312908923, 0.448482434, 0.557612135, 0.691544113, 0.852438279, 0.92975597, 0.976058229, 1, 1, 1, 1], degree=3))
            add(Edge.make_bspline(
                [(-309.846313895, 0.000130087), (-303.956832565, 1.47095521), (-293.989507544, 2.093987313), (-276.26402299, 4.514356704), (-260.846344817, 5.427413394), (-235.858814759, 7.870306192), (-205.101424636, 8.838080282), (-157.718638092, 9.030650149), (-110.497331172, 6.181495223), (-66.506197185, -0.586669107), (-36.454672816, -6.098499901), (-15.316603331, -6.189065841), (-1.230714189, -6.924076091), (-0.000560351, 0.000130087)],
                knots=[0, 0, 0, 0, 0.057787081, 0.095274891, 0.171021118, 0.205339302, 0.335319146, 0.464904334, 0.658702312, 0.785511947, 0.893517288, 0.94309214, 1, 1, 1, 1], degree=3))
        make_face()
        with Locations(Location((-20.32, 10.16, 0), (0, 0, 180))):
            Circle(SKETCH3_R, mode=Mode.SUBTRACT)
        with Locations(Location((-227.296313895, 19.050130087, 0), (0, 0, 180))):
            Circle(SKETCH3_R, mode=Mode.SUBTRACT)
    extrude(amount=BOSS_EXTRUDE2_DEPTH)

    # Sketch4 → Cut-Extrude2 (cut)
    with BuildSketch(Plane.XY.offset(1.5875)):
        with BuildLine():
            Line((9.2075, -29.5275), (9.2075, 8.5725))
            ThreePointArc((9.2075, 8.5725), (20.32, 19.685), (31.4325, 8.5725))
            Line((31.4325, 8.5725), (31.4325, -29.5275))
            Line((31.4325, -29.5275), (9.2075, -29.5275))
        make_face()
        with BuildLine():
            Line((216.183813895, 17.462630087), (216.183813895, -35.788115321))
            Line((216.183813895, -35.788115321), (238.408813895, -35.788115321))
            Line((238.408813895, -35.788115321), (238.408813895, 17.462630087))
            ThreePointArc((238.408813895, 17.462630087), (227.296313895, 28.575130087), (216.183813895, 17.462630087))
        make_face()
    extrude(amount=-CUT_EXTRUDE2_DEPTH, mode=Mode.SUBTRACT)


solid = part.part
